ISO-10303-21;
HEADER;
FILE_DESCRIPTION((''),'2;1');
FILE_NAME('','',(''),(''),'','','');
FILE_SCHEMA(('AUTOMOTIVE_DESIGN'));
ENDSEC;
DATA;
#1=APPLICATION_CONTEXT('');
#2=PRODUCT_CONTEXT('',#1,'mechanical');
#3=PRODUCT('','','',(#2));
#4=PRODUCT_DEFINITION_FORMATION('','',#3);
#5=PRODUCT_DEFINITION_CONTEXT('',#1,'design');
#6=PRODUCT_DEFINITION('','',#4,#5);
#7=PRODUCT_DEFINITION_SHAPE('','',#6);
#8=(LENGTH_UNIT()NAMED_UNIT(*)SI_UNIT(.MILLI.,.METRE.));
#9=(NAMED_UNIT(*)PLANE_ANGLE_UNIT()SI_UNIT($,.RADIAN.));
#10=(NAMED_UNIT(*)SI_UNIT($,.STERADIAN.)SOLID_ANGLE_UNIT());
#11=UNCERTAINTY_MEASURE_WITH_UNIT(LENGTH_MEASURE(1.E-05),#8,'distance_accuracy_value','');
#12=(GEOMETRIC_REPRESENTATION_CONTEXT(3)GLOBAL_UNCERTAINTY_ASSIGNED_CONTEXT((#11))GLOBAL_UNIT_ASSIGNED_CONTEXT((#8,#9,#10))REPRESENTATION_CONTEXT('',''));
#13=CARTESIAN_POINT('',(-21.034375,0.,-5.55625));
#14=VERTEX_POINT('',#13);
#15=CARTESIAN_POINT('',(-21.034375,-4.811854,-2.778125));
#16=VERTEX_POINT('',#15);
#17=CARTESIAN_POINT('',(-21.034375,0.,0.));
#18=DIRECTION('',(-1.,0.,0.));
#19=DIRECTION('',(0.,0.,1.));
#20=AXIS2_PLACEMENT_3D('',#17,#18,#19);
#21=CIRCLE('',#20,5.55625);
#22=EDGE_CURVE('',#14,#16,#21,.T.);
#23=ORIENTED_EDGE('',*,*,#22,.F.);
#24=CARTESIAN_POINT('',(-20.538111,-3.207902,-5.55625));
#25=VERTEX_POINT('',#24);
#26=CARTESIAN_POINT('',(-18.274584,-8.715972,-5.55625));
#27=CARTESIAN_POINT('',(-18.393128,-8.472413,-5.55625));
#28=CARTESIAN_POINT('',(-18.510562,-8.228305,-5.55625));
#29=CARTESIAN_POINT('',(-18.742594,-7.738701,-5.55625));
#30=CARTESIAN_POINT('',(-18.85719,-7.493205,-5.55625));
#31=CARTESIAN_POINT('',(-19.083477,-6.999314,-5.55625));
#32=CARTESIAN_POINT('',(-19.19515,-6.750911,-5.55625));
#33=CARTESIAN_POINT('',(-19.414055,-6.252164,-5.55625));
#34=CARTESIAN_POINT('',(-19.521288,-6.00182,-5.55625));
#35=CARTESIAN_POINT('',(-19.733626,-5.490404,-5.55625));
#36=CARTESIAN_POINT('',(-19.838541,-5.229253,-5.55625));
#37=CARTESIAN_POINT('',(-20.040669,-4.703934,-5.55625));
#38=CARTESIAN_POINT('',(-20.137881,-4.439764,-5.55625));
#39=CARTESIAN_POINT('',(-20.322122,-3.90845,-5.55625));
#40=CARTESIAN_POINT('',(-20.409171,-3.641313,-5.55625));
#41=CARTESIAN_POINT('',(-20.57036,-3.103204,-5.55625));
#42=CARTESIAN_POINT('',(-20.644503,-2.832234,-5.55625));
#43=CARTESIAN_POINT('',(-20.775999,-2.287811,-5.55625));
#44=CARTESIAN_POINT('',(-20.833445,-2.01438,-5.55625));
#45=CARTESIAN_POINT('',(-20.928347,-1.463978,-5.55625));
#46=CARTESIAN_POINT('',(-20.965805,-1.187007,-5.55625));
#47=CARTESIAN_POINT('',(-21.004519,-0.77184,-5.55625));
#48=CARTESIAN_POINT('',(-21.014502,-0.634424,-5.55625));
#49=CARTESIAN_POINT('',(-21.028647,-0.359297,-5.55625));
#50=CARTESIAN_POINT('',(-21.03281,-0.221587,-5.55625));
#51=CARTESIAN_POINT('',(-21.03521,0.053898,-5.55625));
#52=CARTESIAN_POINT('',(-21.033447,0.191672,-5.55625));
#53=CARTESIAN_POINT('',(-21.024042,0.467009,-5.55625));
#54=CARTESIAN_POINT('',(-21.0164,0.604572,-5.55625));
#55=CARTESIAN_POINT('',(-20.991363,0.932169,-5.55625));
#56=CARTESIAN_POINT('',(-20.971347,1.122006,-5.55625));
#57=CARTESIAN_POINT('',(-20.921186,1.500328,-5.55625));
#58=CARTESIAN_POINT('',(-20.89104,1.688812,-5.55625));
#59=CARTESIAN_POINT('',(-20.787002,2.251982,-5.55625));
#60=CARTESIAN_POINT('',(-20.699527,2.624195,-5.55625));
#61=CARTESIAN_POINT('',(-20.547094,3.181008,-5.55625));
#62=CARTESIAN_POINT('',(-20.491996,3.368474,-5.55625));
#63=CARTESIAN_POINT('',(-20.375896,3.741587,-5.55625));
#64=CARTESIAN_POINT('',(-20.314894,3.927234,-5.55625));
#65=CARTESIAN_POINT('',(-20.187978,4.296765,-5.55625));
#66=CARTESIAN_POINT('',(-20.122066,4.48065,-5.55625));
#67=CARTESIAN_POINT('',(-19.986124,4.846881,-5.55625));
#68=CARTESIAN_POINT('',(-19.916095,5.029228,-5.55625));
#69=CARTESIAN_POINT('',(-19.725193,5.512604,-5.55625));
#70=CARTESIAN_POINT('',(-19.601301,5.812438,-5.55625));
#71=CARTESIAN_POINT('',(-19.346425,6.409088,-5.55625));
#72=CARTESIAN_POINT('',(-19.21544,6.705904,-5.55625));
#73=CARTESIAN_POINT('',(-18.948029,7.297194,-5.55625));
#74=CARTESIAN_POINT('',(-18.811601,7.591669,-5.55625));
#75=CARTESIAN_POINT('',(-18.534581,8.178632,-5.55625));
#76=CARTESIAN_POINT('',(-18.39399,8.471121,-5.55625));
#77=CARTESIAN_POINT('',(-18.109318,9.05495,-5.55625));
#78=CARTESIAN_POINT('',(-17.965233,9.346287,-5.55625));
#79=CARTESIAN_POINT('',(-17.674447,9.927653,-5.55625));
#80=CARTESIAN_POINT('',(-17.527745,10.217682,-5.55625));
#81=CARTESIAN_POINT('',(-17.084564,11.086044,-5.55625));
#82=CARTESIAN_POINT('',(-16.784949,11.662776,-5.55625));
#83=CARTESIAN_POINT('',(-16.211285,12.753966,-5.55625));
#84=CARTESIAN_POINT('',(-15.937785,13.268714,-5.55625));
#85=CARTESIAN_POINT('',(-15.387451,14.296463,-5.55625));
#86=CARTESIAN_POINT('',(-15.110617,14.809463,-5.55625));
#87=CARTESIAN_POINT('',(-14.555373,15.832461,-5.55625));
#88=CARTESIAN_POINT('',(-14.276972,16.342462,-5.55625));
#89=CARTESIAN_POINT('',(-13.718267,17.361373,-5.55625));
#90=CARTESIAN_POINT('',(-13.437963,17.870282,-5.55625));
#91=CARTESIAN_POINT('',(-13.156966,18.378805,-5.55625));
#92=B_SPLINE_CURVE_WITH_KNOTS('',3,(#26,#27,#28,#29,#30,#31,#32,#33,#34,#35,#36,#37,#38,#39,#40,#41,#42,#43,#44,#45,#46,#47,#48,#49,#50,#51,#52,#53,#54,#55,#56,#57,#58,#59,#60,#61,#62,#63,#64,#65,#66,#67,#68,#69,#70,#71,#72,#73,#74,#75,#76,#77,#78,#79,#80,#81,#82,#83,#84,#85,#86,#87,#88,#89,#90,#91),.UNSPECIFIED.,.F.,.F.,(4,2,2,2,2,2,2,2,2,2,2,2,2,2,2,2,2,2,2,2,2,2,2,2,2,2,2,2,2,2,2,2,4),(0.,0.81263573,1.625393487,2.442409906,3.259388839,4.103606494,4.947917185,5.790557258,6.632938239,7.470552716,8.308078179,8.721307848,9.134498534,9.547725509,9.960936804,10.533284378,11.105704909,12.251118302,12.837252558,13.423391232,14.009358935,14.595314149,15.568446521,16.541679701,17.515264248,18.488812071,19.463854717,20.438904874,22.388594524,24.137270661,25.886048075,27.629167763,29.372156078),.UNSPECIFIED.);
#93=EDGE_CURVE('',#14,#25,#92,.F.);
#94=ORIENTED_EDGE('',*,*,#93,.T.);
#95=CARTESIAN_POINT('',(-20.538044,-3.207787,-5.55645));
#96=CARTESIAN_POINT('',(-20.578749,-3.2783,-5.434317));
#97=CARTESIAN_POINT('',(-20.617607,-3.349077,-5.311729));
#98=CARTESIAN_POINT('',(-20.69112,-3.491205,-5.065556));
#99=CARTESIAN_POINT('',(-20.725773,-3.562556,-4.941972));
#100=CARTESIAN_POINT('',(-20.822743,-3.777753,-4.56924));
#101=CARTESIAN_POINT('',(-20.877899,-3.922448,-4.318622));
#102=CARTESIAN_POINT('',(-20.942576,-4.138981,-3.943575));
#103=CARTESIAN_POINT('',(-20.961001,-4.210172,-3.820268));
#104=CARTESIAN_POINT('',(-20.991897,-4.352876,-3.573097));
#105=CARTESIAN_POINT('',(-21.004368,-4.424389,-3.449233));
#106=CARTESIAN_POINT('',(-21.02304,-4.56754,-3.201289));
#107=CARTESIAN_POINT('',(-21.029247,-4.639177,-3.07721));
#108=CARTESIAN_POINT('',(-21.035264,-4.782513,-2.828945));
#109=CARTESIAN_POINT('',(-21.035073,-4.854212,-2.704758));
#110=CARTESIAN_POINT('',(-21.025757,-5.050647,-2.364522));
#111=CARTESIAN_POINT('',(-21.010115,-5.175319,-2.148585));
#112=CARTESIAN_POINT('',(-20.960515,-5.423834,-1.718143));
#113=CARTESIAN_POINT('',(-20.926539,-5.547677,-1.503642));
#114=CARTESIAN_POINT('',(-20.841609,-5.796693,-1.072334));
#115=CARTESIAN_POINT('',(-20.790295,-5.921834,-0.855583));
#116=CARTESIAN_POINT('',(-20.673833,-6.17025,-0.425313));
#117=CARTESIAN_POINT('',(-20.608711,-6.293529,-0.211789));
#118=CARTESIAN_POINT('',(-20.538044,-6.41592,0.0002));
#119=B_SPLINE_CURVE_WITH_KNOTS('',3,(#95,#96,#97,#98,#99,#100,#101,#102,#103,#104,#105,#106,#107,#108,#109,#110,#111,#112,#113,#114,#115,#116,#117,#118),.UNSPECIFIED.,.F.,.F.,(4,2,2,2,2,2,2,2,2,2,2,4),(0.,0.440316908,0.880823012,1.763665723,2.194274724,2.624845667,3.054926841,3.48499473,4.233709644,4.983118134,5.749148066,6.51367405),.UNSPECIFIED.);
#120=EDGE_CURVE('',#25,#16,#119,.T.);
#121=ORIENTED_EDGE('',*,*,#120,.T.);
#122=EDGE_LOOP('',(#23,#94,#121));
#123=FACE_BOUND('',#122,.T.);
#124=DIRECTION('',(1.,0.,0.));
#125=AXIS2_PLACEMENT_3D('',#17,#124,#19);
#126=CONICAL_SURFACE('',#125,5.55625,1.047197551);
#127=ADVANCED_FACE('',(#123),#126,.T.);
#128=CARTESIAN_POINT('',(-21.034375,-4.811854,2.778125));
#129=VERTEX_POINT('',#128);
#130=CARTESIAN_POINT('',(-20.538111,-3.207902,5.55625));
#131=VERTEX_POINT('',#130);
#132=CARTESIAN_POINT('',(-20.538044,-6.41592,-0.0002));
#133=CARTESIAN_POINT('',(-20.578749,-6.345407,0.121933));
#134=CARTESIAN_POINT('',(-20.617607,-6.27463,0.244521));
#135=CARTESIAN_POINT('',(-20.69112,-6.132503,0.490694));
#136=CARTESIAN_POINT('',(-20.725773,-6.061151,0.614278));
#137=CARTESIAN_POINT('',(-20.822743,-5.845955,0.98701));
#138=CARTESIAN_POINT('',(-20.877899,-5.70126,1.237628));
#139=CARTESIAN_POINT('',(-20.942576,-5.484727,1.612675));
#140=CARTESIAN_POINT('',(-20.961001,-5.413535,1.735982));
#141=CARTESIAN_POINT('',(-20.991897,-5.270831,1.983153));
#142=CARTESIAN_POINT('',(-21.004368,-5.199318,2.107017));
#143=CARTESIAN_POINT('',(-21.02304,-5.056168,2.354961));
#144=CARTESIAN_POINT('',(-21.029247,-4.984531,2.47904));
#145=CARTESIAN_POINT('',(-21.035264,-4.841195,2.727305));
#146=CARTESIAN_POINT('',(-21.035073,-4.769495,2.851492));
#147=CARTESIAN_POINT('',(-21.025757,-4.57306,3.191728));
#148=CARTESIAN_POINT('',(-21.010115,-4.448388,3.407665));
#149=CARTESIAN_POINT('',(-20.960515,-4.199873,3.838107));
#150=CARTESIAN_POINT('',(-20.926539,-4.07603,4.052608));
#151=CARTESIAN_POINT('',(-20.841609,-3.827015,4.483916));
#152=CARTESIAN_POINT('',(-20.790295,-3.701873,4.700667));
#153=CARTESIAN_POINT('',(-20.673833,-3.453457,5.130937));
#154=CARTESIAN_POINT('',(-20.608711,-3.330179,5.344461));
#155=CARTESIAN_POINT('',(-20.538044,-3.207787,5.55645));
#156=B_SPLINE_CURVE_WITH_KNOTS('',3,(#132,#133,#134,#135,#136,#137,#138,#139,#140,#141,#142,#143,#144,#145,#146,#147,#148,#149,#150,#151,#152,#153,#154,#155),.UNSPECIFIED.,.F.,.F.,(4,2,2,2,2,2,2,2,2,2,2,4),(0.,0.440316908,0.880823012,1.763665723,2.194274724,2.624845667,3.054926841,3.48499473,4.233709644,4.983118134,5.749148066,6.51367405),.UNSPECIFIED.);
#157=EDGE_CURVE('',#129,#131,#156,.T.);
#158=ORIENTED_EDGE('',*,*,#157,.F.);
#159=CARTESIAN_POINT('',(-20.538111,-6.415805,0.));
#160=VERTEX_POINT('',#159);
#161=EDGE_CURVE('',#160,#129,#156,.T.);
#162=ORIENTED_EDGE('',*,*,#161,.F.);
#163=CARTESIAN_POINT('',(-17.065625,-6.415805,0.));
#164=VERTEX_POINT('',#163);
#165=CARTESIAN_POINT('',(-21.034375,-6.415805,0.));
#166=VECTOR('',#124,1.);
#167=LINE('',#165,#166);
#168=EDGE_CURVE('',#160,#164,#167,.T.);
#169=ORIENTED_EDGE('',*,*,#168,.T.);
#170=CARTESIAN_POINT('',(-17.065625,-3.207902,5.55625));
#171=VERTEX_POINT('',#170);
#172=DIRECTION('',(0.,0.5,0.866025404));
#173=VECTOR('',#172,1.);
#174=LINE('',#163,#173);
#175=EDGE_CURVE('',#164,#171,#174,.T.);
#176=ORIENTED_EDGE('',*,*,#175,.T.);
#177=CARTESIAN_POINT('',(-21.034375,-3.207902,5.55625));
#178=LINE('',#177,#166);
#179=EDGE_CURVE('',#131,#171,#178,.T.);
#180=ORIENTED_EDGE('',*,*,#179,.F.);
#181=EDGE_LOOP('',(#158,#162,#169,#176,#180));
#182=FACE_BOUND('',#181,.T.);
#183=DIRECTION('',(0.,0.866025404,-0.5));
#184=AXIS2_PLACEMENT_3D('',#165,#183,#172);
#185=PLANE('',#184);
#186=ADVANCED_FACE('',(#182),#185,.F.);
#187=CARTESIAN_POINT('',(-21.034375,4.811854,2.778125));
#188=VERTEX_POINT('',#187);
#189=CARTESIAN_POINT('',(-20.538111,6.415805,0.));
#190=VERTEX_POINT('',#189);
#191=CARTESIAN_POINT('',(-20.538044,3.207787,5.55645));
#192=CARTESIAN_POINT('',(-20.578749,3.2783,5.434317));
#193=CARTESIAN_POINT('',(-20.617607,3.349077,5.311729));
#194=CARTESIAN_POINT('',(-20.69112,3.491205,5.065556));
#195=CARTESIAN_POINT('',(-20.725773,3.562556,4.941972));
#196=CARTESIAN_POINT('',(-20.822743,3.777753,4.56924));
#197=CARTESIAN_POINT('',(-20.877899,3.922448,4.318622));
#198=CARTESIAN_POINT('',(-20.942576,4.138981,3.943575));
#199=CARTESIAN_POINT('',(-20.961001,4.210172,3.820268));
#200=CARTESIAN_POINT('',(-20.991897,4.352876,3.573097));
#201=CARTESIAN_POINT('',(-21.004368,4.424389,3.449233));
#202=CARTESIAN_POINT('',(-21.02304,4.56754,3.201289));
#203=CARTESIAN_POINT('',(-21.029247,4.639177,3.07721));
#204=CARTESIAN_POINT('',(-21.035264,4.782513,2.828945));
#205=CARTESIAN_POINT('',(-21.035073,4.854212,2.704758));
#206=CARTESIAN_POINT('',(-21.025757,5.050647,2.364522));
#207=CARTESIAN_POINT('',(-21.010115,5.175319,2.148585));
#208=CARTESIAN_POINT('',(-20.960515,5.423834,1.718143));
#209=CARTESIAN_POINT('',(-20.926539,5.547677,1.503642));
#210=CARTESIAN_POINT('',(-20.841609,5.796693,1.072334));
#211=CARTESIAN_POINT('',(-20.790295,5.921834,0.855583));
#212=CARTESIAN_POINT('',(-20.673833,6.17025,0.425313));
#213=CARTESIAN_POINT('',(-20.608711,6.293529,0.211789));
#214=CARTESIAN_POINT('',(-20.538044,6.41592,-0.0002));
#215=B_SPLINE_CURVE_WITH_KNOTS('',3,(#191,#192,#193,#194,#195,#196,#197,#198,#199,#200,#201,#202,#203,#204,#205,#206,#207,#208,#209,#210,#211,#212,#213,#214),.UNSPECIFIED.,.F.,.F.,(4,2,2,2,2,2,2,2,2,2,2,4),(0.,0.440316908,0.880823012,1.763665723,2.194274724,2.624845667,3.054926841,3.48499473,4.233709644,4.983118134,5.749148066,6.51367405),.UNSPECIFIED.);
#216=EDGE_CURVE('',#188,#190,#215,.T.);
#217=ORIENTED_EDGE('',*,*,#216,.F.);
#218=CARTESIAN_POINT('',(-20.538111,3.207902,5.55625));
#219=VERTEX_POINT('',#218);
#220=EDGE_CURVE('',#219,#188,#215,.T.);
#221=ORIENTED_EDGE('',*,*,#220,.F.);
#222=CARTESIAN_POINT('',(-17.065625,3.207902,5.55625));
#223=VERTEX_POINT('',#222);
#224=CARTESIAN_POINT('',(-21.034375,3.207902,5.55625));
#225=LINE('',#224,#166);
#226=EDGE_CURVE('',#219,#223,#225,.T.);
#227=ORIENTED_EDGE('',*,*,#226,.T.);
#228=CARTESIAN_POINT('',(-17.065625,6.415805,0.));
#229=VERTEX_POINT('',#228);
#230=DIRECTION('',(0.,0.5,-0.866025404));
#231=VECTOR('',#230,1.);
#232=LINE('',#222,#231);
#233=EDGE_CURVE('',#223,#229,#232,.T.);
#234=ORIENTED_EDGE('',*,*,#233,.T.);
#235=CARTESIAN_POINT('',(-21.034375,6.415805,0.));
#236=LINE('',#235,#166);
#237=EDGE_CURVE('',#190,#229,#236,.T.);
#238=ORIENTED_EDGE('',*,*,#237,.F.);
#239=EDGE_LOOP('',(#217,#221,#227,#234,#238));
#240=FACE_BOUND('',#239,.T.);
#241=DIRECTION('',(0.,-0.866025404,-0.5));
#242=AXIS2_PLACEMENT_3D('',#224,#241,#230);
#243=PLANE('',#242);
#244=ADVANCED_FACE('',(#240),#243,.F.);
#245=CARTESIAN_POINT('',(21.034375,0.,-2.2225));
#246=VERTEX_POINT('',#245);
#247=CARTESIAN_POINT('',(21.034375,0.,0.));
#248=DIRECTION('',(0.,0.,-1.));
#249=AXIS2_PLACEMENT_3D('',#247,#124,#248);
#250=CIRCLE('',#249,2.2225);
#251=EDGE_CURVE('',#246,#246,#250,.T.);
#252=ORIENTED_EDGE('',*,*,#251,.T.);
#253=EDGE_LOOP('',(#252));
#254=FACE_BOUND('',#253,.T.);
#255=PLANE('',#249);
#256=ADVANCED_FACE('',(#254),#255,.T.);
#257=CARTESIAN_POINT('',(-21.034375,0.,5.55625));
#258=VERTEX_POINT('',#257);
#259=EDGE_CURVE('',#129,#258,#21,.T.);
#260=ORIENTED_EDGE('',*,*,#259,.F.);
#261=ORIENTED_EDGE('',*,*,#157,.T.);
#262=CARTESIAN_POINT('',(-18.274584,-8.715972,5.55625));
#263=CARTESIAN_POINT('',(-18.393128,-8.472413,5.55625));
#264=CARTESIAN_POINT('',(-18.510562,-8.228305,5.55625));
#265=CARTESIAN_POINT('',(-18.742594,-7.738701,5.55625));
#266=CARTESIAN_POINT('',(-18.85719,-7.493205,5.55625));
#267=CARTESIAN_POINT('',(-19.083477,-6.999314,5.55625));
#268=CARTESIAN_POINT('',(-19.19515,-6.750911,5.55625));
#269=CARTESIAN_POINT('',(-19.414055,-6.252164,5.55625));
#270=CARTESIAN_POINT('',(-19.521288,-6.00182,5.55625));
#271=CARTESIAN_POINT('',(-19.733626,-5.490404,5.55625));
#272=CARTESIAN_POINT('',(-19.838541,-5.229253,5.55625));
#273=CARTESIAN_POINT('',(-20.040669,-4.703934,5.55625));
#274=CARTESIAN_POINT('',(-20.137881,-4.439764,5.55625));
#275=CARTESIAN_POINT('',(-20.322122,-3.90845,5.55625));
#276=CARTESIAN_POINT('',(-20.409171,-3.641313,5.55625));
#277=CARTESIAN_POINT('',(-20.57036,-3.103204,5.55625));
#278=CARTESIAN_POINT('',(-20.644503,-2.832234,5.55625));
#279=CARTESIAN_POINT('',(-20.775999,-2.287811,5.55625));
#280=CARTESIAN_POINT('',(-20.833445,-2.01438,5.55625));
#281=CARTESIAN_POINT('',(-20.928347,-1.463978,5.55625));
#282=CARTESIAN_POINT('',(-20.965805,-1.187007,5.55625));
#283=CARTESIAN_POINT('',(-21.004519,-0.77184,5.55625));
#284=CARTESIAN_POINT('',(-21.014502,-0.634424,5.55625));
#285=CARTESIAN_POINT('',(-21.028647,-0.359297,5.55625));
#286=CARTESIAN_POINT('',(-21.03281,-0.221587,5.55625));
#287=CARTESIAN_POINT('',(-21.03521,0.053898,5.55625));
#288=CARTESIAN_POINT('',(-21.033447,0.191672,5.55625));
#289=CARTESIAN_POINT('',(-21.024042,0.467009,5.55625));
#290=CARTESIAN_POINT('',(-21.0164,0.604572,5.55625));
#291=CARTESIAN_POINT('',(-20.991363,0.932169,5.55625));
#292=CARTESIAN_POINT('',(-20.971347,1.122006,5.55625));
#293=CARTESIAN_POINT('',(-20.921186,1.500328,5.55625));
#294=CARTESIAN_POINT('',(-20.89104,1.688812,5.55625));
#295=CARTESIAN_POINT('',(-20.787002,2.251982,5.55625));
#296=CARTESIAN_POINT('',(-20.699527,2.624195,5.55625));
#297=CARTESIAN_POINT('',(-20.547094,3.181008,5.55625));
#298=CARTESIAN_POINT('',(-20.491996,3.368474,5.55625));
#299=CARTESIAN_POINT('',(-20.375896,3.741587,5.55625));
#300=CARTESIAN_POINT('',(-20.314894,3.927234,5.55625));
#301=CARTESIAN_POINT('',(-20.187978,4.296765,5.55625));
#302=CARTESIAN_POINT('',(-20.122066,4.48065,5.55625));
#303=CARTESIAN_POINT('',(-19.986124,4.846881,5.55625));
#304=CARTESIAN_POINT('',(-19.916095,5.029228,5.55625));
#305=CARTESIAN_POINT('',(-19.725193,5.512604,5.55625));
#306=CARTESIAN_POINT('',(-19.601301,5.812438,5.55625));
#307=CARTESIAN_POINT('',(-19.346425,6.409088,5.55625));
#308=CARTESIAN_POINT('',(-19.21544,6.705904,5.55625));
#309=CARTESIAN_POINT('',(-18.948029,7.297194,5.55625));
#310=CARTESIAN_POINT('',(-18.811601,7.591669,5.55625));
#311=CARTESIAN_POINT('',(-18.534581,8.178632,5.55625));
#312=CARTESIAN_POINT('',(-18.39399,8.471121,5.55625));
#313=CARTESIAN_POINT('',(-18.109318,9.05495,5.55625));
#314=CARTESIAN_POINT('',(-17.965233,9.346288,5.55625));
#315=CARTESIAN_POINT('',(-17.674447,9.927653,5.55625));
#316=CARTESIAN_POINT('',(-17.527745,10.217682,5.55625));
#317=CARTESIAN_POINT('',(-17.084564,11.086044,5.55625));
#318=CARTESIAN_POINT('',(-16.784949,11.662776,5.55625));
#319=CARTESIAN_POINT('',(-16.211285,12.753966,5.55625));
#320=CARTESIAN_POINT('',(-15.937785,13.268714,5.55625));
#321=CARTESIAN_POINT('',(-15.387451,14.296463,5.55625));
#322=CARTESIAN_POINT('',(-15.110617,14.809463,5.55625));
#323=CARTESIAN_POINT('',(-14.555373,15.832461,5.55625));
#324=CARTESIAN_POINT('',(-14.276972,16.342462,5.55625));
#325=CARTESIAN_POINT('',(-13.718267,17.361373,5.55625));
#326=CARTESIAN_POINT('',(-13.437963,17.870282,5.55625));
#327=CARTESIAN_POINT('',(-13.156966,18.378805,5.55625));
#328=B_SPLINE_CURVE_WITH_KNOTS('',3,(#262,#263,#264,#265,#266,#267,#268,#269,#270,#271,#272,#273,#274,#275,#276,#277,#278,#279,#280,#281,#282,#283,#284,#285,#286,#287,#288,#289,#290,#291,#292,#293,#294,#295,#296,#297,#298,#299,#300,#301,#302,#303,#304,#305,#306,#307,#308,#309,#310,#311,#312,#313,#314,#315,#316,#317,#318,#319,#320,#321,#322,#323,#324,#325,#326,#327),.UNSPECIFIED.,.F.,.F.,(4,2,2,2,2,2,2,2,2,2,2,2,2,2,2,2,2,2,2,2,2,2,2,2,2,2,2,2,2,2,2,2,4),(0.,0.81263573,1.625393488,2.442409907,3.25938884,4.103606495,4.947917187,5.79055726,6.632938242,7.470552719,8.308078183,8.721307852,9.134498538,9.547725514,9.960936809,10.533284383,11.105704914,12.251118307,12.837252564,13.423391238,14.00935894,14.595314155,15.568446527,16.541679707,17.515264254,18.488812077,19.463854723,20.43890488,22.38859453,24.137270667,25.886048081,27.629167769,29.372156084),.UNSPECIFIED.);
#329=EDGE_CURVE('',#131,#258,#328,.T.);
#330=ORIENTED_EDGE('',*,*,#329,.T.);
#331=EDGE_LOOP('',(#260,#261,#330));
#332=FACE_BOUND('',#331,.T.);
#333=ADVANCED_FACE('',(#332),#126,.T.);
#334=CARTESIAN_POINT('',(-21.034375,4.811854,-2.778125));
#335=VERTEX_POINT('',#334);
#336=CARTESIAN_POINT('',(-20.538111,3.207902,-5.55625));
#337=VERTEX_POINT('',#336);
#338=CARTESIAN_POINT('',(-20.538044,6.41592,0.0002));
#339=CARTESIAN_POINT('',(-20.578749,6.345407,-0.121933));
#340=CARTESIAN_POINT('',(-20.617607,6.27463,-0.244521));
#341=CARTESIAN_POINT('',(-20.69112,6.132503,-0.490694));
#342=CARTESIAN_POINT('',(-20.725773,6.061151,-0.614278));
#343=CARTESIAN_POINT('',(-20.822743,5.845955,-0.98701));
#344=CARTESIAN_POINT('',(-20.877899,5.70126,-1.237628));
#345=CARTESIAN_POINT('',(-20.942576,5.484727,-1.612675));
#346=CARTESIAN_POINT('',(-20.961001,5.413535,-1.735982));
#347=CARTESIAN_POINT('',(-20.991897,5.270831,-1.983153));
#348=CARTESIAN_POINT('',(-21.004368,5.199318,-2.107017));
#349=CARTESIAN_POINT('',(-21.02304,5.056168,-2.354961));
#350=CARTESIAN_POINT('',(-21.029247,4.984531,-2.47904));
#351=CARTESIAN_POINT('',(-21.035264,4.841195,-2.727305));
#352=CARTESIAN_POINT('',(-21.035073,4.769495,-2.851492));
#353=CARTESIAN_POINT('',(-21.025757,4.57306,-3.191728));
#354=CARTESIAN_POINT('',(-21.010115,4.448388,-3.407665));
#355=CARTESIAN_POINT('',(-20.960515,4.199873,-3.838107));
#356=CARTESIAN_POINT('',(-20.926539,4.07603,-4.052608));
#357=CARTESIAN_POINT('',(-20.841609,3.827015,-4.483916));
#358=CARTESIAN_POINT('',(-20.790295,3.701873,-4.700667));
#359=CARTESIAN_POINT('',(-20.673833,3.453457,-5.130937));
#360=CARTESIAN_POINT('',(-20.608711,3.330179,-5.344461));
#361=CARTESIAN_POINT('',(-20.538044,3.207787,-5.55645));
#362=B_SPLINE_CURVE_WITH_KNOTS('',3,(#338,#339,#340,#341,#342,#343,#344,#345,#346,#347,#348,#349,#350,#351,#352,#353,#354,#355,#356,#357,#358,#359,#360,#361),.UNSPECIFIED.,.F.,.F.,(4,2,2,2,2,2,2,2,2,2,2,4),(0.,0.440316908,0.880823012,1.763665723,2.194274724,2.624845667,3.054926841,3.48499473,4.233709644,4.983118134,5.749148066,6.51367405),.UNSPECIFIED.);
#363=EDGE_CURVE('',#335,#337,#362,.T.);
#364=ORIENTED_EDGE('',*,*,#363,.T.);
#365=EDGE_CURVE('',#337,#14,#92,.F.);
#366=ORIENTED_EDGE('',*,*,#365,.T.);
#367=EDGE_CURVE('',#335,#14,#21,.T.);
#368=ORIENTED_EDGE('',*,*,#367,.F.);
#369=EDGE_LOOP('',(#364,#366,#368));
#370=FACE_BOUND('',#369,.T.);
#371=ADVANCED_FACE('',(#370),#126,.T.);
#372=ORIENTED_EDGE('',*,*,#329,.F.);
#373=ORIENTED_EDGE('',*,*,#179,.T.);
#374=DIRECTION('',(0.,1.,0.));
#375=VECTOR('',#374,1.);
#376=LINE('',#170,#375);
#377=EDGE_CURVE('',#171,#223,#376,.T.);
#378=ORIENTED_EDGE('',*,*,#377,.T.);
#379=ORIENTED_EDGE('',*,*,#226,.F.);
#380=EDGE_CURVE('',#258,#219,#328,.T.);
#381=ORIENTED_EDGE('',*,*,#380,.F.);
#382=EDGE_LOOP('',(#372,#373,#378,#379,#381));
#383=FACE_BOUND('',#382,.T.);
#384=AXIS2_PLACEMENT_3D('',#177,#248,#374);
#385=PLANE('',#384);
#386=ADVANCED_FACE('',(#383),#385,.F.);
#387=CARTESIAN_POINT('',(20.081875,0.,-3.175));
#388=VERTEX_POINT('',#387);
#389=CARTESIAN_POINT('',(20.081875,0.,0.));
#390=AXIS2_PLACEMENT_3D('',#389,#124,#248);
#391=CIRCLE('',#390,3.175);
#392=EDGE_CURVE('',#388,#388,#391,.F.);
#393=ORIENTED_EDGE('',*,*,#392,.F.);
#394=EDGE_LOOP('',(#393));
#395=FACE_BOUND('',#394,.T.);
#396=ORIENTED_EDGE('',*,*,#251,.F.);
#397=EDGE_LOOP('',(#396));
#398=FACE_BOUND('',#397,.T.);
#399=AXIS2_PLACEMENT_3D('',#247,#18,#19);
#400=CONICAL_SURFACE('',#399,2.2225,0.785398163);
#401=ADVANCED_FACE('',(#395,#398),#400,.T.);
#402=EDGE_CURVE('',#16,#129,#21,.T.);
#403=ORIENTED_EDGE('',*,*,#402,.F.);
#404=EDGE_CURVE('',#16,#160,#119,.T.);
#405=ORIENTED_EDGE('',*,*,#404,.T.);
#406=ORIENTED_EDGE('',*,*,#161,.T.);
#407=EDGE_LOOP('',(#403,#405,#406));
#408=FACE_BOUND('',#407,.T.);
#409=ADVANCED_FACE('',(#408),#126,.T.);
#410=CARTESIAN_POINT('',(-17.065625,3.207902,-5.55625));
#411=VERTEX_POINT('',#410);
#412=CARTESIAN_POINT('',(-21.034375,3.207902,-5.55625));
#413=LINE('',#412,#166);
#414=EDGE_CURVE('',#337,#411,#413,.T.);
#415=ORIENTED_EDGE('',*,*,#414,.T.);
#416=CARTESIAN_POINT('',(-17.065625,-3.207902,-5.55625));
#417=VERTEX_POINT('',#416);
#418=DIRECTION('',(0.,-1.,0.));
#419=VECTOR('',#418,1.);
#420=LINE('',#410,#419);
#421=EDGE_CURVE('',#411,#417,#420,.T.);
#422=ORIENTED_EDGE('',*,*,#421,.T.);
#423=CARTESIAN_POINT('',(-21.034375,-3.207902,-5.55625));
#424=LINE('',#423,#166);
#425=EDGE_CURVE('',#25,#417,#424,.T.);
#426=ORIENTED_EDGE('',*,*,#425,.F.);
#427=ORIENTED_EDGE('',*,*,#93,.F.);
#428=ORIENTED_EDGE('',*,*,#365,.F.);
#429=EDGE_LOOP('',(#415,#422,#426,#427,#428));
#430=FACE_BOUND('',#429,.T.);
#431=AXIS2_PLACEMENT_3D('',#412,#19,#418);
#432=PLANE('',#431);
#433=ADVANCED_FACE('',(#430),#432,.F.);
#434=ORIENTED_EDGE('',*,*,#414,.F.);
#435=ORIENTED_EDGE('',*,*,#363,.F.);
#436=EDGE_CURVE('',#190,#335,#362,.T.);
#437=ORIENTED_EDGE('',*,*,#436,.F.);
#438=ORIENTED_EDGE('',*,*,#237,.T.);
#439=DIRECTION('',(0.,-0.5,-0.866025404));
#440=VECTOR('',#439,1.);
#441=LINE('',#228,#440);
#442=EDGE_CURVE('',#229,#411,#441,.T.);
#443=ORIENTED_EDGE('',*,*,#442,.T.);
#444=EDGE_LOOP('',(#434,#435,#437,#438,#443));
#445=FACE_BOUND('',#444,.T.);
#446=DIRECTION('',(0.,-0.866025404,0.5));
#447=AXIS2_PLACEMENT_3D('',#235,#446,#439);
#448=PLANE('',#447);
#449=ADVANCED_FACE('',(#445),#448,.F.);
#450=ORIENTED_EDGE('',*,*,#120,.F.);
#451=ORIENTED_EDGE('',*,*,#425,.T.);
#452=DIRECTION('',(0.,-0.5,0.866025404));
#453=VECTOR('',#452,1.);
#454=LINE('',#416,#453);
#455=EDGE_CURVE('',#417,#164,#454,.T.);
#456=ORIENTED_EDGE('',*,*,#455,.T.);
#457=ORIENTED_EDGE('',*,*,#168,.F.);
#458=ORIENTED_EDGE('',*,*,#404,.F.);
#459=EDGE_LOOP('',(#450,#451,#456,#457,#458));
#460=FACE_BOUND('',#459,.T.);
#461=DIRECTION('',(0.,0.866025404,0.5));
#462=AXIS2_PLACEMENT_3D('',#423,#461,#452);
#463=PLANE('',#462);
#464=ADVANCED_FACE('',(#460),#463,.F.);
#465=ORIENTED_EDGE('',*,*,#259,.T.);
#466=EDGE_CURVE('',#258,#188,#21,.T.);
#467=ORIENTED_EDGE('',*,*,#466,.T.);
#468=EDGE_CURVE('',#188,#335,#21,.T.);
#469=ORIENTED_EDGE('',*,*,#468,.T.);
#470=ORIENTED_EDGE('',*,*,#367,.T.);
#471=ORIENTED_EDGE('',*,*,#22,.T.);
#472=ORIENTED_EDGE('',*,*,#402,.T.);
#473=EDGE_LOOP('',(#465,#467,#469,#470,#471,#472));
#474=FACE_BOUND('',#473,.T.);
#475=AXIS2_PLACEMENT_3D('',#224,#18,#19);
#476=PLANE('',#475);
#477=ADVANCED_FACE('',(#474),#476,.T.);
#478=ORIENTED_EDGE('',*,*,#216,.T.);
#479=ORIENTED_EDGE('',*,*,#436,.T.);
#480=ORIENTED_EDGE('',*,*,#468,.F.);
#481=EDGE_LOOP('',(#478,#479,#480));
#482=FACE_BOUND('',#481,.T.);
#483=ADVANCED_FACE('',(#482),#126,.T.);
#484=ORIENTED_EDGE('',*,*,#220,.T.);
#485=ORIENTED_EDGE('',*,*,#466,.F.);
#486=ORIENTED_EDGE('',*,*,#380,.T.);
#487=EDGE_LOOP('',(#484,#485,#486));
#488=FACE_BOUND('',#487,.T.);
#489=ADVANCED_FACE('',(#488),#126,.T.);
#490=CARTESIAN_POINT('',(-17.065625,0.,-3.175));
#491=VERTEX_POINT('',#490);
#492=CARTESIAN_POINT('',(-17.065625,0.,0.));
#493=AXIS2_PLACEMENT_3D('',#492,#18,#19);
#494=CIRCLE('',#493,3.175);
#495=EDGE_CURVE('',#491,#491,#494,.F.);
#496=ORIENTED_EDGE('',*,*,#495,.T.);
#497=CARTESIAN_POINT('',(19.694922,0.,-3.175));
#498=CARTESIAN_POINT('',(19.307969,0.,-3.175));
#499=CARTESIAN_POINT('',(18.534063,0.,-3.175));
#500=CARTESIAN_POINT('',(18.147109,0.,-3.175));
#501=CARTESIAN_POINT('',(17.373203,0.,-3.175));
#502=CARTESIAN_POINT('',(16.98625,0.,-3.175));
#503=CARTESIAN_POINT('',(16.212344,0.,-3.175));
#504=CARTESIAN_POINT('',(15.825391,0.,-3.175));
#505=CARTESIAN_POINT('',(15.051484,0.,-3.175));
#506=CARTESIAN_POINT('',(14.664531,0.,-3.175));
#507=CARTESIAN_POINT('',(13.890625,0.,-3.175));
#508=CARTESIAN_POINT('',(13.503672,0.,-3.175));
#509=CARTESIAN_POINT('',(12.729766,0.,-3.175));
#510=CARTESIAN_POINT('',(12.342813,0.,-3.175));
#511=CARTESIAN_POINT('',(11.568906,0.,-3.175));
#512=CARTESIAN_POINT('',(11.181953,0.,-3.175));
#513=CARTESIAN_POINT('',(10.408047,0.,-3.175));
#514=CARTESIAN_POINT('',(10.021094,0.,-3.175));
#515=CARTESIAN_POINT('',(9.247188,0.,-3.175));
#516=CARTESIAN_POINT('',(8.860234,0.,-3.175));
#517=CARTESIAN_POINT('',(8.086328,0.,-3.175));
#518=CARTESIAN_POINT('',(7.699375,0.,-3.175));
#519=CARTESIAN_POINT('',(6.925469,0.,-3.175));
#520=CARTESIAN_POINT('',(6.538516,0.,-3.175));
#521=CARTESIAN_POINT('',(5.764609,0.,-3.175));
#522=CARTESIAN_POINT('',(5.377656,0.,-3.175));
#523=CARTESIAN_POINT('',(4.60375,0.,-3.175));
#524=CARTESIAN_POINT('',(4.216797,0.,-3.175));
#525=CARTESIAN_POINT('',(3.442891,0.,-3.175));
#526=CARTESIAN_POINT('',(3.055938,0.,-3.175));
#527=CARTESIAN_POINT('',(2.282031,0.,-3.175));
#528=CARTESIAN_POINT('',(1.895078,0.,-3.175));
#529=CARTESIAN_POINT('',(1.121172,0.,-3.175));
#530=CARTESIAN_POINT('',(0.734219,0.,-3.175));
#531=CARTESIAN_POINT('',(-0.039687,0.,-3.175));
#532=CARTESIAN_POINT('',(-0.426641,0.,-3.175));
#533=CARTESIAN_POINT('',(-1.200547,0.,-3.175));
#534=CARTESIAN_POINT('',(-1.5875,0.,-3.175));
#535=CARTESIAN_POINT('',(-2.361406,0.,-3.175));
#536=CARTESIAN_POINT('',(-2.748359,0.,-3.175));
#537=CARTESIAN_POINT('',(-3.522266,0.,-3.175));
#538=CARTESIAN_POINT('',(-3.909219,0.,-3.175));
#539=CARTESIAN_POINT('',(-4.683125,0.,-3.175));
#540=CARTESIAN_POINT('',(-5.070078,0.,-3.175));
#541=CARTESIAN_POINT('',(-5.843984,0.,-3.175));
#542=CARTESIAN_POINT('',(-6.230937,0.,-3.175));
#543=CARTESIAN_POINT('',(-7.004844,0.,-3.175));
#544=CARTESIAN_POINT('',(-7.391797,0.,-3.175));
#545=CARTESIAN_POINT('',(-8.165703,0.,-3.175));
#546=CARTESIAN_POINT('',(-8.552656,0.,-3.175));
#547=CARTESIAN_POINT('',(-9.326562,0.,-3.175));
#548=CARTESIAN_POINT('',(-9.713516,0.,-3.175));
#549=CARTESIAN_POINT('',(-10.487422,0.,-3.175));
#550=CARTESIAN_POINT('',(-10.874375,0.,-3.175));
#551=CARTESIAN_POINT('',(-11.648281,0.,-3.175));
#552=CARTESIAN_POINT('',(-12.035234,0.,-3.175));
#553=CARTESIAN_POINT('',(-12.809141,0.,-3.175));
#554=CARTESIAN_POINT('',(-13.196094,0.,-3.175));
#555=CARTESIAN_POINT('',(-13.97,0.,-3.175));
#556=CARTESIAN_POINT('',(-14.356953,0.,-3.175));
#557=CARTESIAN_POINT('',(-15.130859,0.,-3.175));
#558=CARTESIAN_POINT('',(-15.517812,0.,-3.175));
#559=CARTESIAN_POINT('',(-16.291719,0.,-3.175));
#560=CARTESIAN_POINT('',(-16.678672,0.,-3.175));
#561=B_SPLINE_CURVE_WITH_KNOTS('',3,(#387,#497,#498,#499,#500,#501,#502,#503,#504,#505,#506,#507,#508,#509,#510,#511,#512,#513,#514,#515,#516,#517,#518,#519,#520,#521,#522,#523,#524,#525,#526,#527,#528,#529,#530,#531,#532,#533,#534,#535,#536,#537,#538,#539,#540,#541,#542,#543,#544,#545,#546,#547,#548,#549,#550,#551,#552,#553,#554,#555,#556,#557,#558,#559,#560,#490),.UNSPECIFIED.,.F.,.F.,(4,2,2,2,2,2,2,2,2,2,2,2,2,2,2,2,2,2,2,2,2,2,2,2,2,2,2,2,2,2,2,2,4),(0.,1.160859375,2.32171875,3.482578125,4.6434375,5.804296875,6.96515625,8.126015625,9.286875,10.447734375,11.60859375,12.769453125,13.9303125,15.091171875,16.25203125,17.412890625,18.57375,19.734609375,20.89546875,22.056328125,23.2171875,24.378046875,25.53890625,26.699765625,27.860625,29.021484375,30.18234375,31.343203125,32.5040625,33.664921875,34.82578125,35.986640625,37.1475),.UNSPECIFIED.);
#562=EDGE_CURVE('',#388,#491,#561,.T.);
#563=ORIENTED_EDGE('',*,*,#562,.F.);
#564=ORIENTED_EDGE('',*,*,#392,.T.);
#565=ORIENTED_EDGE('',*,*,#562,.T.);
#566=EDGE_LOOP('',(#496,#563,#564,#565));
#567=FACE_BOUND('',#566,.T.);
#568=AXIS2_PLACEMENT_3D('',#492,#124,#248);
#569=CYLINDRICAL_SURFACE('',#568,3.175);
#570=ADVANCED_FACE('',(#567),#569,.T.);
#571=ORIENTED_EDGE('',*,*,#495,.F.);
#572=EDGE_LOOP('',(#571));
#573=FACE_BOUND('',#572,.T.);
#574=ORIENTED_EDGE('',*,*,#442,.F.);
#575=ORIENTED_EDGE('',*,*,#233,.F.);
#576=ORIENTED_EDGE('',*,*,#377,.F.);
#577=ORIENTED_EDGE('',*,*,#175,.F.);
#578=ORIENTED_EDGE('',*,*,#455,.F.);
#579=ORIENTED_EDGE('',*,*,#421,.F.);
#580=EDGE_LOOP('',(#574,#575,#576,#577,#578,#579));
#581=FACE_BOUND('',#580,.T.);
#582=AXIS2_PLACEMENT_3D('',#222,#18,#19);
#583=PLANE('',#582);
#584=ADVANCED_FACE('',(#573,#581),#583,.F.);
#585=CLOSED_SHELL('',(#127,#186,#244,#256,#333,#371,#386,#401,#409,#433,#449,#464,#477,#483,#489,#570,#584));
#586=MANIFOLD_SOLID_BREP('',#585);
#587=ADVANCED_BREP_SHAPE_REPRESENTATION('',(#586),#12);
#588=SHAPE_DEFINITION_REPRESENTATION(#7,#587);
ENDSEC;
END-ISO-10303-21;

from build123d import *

# Parameters (mm, degrees)
SKETCH5_R           = 3.175
BOSS_EXTRUDE3_DEPTH = 38.1
CHAMFER1_SIZE       = 0.9525
BOSS_EXTRUDE4_DEPTH = 3.96875
SKETCH8_OUTSIDE_W   = 174.316
SKETCH8_OUTSIDE_H   = 176.036
SKETCH8_OUTSIDE_R   = 5.55625
CUT_EXTRUDE3_DEPTH  = 43.916362762
CUT_EXTRUDE3_DRAFT  = -60


with BuildPart() as part:
    # Sketch5 → Boss-Extrude3 (new body)
    with BuildSketch(Plane(origin=(21.034375, 0, 0), x_dir=(0, 0, -1), z_dir=(1, 0, 0))):
        Circle(SKETCH5_R)
    extrude(amount=-BOSS_EXTRUDE3_DEPTH)

    # Chamfer1
    chamfer1_edges = [part.edges().sort_by_distance(p)[0] for p in [
        (21.034375, 0, 3.175),
    ]]
    chamfer(chamfer1_edges, length=CHAMFER1_SIZE)

    # Sketch6 → Boss-Extrude4 (add)
    with BuildSketch(Plane.ZY.offset(17.065625)):
        Polygon((5.55625, 3.207902433), (0, 6.415804866), (-5.55625, 3.207902433), (-5.55625, -3.207902433), (0, -6.415804866), (5.55625, -3.207902433), align=None)
    extrude(amount=BOSS_EXTRUDE4_DEPTH)


with BuildPart() as cut_extrude3_tool:
    # Sketch8 outside → Cut-Extrude3 (with draft: the straight prism first)
    with BuildSketch(Plane.ZY.offset(21.034375)):
        Rectangle(SKETCH8_OUTSIDE_W, SKETCH8_OUTSIDE_H)
        Circle(SKETCH8_OUTSIDE_R, mode=Mode.SUBTRACT)
    extrude(amount=-CUT_EXTRUDE3_DEPTH)
    # Cut-Extrude3: the draft: its side faces are tilted about the plane it starts from
    cut_extrude3_sides = [cut_extrude3_tool.faces().sort_by_distance(p)[0] for p in [
        (0.923806381, -88.018, 0),
        (0.923806381, 0, 87.158),
        (0.923806381, 88.018, 0),
        (0.923806381, 0, -87.158),
        (0.923806381, 0, -5.55625),
    ]]
    draft(cut_extrude3_sides, Plane.ZY.offset(21.034375), CUT_EXTRUDE3_DRAFT)


with BuildPart() as part_1:
    add(part.part)

    # Cut-Extrude3: cut by cut_extrude3_tool
    add(cut_extrude3_tool.part, mode=Mode.SUBTRACT)


solid = part_1.part
